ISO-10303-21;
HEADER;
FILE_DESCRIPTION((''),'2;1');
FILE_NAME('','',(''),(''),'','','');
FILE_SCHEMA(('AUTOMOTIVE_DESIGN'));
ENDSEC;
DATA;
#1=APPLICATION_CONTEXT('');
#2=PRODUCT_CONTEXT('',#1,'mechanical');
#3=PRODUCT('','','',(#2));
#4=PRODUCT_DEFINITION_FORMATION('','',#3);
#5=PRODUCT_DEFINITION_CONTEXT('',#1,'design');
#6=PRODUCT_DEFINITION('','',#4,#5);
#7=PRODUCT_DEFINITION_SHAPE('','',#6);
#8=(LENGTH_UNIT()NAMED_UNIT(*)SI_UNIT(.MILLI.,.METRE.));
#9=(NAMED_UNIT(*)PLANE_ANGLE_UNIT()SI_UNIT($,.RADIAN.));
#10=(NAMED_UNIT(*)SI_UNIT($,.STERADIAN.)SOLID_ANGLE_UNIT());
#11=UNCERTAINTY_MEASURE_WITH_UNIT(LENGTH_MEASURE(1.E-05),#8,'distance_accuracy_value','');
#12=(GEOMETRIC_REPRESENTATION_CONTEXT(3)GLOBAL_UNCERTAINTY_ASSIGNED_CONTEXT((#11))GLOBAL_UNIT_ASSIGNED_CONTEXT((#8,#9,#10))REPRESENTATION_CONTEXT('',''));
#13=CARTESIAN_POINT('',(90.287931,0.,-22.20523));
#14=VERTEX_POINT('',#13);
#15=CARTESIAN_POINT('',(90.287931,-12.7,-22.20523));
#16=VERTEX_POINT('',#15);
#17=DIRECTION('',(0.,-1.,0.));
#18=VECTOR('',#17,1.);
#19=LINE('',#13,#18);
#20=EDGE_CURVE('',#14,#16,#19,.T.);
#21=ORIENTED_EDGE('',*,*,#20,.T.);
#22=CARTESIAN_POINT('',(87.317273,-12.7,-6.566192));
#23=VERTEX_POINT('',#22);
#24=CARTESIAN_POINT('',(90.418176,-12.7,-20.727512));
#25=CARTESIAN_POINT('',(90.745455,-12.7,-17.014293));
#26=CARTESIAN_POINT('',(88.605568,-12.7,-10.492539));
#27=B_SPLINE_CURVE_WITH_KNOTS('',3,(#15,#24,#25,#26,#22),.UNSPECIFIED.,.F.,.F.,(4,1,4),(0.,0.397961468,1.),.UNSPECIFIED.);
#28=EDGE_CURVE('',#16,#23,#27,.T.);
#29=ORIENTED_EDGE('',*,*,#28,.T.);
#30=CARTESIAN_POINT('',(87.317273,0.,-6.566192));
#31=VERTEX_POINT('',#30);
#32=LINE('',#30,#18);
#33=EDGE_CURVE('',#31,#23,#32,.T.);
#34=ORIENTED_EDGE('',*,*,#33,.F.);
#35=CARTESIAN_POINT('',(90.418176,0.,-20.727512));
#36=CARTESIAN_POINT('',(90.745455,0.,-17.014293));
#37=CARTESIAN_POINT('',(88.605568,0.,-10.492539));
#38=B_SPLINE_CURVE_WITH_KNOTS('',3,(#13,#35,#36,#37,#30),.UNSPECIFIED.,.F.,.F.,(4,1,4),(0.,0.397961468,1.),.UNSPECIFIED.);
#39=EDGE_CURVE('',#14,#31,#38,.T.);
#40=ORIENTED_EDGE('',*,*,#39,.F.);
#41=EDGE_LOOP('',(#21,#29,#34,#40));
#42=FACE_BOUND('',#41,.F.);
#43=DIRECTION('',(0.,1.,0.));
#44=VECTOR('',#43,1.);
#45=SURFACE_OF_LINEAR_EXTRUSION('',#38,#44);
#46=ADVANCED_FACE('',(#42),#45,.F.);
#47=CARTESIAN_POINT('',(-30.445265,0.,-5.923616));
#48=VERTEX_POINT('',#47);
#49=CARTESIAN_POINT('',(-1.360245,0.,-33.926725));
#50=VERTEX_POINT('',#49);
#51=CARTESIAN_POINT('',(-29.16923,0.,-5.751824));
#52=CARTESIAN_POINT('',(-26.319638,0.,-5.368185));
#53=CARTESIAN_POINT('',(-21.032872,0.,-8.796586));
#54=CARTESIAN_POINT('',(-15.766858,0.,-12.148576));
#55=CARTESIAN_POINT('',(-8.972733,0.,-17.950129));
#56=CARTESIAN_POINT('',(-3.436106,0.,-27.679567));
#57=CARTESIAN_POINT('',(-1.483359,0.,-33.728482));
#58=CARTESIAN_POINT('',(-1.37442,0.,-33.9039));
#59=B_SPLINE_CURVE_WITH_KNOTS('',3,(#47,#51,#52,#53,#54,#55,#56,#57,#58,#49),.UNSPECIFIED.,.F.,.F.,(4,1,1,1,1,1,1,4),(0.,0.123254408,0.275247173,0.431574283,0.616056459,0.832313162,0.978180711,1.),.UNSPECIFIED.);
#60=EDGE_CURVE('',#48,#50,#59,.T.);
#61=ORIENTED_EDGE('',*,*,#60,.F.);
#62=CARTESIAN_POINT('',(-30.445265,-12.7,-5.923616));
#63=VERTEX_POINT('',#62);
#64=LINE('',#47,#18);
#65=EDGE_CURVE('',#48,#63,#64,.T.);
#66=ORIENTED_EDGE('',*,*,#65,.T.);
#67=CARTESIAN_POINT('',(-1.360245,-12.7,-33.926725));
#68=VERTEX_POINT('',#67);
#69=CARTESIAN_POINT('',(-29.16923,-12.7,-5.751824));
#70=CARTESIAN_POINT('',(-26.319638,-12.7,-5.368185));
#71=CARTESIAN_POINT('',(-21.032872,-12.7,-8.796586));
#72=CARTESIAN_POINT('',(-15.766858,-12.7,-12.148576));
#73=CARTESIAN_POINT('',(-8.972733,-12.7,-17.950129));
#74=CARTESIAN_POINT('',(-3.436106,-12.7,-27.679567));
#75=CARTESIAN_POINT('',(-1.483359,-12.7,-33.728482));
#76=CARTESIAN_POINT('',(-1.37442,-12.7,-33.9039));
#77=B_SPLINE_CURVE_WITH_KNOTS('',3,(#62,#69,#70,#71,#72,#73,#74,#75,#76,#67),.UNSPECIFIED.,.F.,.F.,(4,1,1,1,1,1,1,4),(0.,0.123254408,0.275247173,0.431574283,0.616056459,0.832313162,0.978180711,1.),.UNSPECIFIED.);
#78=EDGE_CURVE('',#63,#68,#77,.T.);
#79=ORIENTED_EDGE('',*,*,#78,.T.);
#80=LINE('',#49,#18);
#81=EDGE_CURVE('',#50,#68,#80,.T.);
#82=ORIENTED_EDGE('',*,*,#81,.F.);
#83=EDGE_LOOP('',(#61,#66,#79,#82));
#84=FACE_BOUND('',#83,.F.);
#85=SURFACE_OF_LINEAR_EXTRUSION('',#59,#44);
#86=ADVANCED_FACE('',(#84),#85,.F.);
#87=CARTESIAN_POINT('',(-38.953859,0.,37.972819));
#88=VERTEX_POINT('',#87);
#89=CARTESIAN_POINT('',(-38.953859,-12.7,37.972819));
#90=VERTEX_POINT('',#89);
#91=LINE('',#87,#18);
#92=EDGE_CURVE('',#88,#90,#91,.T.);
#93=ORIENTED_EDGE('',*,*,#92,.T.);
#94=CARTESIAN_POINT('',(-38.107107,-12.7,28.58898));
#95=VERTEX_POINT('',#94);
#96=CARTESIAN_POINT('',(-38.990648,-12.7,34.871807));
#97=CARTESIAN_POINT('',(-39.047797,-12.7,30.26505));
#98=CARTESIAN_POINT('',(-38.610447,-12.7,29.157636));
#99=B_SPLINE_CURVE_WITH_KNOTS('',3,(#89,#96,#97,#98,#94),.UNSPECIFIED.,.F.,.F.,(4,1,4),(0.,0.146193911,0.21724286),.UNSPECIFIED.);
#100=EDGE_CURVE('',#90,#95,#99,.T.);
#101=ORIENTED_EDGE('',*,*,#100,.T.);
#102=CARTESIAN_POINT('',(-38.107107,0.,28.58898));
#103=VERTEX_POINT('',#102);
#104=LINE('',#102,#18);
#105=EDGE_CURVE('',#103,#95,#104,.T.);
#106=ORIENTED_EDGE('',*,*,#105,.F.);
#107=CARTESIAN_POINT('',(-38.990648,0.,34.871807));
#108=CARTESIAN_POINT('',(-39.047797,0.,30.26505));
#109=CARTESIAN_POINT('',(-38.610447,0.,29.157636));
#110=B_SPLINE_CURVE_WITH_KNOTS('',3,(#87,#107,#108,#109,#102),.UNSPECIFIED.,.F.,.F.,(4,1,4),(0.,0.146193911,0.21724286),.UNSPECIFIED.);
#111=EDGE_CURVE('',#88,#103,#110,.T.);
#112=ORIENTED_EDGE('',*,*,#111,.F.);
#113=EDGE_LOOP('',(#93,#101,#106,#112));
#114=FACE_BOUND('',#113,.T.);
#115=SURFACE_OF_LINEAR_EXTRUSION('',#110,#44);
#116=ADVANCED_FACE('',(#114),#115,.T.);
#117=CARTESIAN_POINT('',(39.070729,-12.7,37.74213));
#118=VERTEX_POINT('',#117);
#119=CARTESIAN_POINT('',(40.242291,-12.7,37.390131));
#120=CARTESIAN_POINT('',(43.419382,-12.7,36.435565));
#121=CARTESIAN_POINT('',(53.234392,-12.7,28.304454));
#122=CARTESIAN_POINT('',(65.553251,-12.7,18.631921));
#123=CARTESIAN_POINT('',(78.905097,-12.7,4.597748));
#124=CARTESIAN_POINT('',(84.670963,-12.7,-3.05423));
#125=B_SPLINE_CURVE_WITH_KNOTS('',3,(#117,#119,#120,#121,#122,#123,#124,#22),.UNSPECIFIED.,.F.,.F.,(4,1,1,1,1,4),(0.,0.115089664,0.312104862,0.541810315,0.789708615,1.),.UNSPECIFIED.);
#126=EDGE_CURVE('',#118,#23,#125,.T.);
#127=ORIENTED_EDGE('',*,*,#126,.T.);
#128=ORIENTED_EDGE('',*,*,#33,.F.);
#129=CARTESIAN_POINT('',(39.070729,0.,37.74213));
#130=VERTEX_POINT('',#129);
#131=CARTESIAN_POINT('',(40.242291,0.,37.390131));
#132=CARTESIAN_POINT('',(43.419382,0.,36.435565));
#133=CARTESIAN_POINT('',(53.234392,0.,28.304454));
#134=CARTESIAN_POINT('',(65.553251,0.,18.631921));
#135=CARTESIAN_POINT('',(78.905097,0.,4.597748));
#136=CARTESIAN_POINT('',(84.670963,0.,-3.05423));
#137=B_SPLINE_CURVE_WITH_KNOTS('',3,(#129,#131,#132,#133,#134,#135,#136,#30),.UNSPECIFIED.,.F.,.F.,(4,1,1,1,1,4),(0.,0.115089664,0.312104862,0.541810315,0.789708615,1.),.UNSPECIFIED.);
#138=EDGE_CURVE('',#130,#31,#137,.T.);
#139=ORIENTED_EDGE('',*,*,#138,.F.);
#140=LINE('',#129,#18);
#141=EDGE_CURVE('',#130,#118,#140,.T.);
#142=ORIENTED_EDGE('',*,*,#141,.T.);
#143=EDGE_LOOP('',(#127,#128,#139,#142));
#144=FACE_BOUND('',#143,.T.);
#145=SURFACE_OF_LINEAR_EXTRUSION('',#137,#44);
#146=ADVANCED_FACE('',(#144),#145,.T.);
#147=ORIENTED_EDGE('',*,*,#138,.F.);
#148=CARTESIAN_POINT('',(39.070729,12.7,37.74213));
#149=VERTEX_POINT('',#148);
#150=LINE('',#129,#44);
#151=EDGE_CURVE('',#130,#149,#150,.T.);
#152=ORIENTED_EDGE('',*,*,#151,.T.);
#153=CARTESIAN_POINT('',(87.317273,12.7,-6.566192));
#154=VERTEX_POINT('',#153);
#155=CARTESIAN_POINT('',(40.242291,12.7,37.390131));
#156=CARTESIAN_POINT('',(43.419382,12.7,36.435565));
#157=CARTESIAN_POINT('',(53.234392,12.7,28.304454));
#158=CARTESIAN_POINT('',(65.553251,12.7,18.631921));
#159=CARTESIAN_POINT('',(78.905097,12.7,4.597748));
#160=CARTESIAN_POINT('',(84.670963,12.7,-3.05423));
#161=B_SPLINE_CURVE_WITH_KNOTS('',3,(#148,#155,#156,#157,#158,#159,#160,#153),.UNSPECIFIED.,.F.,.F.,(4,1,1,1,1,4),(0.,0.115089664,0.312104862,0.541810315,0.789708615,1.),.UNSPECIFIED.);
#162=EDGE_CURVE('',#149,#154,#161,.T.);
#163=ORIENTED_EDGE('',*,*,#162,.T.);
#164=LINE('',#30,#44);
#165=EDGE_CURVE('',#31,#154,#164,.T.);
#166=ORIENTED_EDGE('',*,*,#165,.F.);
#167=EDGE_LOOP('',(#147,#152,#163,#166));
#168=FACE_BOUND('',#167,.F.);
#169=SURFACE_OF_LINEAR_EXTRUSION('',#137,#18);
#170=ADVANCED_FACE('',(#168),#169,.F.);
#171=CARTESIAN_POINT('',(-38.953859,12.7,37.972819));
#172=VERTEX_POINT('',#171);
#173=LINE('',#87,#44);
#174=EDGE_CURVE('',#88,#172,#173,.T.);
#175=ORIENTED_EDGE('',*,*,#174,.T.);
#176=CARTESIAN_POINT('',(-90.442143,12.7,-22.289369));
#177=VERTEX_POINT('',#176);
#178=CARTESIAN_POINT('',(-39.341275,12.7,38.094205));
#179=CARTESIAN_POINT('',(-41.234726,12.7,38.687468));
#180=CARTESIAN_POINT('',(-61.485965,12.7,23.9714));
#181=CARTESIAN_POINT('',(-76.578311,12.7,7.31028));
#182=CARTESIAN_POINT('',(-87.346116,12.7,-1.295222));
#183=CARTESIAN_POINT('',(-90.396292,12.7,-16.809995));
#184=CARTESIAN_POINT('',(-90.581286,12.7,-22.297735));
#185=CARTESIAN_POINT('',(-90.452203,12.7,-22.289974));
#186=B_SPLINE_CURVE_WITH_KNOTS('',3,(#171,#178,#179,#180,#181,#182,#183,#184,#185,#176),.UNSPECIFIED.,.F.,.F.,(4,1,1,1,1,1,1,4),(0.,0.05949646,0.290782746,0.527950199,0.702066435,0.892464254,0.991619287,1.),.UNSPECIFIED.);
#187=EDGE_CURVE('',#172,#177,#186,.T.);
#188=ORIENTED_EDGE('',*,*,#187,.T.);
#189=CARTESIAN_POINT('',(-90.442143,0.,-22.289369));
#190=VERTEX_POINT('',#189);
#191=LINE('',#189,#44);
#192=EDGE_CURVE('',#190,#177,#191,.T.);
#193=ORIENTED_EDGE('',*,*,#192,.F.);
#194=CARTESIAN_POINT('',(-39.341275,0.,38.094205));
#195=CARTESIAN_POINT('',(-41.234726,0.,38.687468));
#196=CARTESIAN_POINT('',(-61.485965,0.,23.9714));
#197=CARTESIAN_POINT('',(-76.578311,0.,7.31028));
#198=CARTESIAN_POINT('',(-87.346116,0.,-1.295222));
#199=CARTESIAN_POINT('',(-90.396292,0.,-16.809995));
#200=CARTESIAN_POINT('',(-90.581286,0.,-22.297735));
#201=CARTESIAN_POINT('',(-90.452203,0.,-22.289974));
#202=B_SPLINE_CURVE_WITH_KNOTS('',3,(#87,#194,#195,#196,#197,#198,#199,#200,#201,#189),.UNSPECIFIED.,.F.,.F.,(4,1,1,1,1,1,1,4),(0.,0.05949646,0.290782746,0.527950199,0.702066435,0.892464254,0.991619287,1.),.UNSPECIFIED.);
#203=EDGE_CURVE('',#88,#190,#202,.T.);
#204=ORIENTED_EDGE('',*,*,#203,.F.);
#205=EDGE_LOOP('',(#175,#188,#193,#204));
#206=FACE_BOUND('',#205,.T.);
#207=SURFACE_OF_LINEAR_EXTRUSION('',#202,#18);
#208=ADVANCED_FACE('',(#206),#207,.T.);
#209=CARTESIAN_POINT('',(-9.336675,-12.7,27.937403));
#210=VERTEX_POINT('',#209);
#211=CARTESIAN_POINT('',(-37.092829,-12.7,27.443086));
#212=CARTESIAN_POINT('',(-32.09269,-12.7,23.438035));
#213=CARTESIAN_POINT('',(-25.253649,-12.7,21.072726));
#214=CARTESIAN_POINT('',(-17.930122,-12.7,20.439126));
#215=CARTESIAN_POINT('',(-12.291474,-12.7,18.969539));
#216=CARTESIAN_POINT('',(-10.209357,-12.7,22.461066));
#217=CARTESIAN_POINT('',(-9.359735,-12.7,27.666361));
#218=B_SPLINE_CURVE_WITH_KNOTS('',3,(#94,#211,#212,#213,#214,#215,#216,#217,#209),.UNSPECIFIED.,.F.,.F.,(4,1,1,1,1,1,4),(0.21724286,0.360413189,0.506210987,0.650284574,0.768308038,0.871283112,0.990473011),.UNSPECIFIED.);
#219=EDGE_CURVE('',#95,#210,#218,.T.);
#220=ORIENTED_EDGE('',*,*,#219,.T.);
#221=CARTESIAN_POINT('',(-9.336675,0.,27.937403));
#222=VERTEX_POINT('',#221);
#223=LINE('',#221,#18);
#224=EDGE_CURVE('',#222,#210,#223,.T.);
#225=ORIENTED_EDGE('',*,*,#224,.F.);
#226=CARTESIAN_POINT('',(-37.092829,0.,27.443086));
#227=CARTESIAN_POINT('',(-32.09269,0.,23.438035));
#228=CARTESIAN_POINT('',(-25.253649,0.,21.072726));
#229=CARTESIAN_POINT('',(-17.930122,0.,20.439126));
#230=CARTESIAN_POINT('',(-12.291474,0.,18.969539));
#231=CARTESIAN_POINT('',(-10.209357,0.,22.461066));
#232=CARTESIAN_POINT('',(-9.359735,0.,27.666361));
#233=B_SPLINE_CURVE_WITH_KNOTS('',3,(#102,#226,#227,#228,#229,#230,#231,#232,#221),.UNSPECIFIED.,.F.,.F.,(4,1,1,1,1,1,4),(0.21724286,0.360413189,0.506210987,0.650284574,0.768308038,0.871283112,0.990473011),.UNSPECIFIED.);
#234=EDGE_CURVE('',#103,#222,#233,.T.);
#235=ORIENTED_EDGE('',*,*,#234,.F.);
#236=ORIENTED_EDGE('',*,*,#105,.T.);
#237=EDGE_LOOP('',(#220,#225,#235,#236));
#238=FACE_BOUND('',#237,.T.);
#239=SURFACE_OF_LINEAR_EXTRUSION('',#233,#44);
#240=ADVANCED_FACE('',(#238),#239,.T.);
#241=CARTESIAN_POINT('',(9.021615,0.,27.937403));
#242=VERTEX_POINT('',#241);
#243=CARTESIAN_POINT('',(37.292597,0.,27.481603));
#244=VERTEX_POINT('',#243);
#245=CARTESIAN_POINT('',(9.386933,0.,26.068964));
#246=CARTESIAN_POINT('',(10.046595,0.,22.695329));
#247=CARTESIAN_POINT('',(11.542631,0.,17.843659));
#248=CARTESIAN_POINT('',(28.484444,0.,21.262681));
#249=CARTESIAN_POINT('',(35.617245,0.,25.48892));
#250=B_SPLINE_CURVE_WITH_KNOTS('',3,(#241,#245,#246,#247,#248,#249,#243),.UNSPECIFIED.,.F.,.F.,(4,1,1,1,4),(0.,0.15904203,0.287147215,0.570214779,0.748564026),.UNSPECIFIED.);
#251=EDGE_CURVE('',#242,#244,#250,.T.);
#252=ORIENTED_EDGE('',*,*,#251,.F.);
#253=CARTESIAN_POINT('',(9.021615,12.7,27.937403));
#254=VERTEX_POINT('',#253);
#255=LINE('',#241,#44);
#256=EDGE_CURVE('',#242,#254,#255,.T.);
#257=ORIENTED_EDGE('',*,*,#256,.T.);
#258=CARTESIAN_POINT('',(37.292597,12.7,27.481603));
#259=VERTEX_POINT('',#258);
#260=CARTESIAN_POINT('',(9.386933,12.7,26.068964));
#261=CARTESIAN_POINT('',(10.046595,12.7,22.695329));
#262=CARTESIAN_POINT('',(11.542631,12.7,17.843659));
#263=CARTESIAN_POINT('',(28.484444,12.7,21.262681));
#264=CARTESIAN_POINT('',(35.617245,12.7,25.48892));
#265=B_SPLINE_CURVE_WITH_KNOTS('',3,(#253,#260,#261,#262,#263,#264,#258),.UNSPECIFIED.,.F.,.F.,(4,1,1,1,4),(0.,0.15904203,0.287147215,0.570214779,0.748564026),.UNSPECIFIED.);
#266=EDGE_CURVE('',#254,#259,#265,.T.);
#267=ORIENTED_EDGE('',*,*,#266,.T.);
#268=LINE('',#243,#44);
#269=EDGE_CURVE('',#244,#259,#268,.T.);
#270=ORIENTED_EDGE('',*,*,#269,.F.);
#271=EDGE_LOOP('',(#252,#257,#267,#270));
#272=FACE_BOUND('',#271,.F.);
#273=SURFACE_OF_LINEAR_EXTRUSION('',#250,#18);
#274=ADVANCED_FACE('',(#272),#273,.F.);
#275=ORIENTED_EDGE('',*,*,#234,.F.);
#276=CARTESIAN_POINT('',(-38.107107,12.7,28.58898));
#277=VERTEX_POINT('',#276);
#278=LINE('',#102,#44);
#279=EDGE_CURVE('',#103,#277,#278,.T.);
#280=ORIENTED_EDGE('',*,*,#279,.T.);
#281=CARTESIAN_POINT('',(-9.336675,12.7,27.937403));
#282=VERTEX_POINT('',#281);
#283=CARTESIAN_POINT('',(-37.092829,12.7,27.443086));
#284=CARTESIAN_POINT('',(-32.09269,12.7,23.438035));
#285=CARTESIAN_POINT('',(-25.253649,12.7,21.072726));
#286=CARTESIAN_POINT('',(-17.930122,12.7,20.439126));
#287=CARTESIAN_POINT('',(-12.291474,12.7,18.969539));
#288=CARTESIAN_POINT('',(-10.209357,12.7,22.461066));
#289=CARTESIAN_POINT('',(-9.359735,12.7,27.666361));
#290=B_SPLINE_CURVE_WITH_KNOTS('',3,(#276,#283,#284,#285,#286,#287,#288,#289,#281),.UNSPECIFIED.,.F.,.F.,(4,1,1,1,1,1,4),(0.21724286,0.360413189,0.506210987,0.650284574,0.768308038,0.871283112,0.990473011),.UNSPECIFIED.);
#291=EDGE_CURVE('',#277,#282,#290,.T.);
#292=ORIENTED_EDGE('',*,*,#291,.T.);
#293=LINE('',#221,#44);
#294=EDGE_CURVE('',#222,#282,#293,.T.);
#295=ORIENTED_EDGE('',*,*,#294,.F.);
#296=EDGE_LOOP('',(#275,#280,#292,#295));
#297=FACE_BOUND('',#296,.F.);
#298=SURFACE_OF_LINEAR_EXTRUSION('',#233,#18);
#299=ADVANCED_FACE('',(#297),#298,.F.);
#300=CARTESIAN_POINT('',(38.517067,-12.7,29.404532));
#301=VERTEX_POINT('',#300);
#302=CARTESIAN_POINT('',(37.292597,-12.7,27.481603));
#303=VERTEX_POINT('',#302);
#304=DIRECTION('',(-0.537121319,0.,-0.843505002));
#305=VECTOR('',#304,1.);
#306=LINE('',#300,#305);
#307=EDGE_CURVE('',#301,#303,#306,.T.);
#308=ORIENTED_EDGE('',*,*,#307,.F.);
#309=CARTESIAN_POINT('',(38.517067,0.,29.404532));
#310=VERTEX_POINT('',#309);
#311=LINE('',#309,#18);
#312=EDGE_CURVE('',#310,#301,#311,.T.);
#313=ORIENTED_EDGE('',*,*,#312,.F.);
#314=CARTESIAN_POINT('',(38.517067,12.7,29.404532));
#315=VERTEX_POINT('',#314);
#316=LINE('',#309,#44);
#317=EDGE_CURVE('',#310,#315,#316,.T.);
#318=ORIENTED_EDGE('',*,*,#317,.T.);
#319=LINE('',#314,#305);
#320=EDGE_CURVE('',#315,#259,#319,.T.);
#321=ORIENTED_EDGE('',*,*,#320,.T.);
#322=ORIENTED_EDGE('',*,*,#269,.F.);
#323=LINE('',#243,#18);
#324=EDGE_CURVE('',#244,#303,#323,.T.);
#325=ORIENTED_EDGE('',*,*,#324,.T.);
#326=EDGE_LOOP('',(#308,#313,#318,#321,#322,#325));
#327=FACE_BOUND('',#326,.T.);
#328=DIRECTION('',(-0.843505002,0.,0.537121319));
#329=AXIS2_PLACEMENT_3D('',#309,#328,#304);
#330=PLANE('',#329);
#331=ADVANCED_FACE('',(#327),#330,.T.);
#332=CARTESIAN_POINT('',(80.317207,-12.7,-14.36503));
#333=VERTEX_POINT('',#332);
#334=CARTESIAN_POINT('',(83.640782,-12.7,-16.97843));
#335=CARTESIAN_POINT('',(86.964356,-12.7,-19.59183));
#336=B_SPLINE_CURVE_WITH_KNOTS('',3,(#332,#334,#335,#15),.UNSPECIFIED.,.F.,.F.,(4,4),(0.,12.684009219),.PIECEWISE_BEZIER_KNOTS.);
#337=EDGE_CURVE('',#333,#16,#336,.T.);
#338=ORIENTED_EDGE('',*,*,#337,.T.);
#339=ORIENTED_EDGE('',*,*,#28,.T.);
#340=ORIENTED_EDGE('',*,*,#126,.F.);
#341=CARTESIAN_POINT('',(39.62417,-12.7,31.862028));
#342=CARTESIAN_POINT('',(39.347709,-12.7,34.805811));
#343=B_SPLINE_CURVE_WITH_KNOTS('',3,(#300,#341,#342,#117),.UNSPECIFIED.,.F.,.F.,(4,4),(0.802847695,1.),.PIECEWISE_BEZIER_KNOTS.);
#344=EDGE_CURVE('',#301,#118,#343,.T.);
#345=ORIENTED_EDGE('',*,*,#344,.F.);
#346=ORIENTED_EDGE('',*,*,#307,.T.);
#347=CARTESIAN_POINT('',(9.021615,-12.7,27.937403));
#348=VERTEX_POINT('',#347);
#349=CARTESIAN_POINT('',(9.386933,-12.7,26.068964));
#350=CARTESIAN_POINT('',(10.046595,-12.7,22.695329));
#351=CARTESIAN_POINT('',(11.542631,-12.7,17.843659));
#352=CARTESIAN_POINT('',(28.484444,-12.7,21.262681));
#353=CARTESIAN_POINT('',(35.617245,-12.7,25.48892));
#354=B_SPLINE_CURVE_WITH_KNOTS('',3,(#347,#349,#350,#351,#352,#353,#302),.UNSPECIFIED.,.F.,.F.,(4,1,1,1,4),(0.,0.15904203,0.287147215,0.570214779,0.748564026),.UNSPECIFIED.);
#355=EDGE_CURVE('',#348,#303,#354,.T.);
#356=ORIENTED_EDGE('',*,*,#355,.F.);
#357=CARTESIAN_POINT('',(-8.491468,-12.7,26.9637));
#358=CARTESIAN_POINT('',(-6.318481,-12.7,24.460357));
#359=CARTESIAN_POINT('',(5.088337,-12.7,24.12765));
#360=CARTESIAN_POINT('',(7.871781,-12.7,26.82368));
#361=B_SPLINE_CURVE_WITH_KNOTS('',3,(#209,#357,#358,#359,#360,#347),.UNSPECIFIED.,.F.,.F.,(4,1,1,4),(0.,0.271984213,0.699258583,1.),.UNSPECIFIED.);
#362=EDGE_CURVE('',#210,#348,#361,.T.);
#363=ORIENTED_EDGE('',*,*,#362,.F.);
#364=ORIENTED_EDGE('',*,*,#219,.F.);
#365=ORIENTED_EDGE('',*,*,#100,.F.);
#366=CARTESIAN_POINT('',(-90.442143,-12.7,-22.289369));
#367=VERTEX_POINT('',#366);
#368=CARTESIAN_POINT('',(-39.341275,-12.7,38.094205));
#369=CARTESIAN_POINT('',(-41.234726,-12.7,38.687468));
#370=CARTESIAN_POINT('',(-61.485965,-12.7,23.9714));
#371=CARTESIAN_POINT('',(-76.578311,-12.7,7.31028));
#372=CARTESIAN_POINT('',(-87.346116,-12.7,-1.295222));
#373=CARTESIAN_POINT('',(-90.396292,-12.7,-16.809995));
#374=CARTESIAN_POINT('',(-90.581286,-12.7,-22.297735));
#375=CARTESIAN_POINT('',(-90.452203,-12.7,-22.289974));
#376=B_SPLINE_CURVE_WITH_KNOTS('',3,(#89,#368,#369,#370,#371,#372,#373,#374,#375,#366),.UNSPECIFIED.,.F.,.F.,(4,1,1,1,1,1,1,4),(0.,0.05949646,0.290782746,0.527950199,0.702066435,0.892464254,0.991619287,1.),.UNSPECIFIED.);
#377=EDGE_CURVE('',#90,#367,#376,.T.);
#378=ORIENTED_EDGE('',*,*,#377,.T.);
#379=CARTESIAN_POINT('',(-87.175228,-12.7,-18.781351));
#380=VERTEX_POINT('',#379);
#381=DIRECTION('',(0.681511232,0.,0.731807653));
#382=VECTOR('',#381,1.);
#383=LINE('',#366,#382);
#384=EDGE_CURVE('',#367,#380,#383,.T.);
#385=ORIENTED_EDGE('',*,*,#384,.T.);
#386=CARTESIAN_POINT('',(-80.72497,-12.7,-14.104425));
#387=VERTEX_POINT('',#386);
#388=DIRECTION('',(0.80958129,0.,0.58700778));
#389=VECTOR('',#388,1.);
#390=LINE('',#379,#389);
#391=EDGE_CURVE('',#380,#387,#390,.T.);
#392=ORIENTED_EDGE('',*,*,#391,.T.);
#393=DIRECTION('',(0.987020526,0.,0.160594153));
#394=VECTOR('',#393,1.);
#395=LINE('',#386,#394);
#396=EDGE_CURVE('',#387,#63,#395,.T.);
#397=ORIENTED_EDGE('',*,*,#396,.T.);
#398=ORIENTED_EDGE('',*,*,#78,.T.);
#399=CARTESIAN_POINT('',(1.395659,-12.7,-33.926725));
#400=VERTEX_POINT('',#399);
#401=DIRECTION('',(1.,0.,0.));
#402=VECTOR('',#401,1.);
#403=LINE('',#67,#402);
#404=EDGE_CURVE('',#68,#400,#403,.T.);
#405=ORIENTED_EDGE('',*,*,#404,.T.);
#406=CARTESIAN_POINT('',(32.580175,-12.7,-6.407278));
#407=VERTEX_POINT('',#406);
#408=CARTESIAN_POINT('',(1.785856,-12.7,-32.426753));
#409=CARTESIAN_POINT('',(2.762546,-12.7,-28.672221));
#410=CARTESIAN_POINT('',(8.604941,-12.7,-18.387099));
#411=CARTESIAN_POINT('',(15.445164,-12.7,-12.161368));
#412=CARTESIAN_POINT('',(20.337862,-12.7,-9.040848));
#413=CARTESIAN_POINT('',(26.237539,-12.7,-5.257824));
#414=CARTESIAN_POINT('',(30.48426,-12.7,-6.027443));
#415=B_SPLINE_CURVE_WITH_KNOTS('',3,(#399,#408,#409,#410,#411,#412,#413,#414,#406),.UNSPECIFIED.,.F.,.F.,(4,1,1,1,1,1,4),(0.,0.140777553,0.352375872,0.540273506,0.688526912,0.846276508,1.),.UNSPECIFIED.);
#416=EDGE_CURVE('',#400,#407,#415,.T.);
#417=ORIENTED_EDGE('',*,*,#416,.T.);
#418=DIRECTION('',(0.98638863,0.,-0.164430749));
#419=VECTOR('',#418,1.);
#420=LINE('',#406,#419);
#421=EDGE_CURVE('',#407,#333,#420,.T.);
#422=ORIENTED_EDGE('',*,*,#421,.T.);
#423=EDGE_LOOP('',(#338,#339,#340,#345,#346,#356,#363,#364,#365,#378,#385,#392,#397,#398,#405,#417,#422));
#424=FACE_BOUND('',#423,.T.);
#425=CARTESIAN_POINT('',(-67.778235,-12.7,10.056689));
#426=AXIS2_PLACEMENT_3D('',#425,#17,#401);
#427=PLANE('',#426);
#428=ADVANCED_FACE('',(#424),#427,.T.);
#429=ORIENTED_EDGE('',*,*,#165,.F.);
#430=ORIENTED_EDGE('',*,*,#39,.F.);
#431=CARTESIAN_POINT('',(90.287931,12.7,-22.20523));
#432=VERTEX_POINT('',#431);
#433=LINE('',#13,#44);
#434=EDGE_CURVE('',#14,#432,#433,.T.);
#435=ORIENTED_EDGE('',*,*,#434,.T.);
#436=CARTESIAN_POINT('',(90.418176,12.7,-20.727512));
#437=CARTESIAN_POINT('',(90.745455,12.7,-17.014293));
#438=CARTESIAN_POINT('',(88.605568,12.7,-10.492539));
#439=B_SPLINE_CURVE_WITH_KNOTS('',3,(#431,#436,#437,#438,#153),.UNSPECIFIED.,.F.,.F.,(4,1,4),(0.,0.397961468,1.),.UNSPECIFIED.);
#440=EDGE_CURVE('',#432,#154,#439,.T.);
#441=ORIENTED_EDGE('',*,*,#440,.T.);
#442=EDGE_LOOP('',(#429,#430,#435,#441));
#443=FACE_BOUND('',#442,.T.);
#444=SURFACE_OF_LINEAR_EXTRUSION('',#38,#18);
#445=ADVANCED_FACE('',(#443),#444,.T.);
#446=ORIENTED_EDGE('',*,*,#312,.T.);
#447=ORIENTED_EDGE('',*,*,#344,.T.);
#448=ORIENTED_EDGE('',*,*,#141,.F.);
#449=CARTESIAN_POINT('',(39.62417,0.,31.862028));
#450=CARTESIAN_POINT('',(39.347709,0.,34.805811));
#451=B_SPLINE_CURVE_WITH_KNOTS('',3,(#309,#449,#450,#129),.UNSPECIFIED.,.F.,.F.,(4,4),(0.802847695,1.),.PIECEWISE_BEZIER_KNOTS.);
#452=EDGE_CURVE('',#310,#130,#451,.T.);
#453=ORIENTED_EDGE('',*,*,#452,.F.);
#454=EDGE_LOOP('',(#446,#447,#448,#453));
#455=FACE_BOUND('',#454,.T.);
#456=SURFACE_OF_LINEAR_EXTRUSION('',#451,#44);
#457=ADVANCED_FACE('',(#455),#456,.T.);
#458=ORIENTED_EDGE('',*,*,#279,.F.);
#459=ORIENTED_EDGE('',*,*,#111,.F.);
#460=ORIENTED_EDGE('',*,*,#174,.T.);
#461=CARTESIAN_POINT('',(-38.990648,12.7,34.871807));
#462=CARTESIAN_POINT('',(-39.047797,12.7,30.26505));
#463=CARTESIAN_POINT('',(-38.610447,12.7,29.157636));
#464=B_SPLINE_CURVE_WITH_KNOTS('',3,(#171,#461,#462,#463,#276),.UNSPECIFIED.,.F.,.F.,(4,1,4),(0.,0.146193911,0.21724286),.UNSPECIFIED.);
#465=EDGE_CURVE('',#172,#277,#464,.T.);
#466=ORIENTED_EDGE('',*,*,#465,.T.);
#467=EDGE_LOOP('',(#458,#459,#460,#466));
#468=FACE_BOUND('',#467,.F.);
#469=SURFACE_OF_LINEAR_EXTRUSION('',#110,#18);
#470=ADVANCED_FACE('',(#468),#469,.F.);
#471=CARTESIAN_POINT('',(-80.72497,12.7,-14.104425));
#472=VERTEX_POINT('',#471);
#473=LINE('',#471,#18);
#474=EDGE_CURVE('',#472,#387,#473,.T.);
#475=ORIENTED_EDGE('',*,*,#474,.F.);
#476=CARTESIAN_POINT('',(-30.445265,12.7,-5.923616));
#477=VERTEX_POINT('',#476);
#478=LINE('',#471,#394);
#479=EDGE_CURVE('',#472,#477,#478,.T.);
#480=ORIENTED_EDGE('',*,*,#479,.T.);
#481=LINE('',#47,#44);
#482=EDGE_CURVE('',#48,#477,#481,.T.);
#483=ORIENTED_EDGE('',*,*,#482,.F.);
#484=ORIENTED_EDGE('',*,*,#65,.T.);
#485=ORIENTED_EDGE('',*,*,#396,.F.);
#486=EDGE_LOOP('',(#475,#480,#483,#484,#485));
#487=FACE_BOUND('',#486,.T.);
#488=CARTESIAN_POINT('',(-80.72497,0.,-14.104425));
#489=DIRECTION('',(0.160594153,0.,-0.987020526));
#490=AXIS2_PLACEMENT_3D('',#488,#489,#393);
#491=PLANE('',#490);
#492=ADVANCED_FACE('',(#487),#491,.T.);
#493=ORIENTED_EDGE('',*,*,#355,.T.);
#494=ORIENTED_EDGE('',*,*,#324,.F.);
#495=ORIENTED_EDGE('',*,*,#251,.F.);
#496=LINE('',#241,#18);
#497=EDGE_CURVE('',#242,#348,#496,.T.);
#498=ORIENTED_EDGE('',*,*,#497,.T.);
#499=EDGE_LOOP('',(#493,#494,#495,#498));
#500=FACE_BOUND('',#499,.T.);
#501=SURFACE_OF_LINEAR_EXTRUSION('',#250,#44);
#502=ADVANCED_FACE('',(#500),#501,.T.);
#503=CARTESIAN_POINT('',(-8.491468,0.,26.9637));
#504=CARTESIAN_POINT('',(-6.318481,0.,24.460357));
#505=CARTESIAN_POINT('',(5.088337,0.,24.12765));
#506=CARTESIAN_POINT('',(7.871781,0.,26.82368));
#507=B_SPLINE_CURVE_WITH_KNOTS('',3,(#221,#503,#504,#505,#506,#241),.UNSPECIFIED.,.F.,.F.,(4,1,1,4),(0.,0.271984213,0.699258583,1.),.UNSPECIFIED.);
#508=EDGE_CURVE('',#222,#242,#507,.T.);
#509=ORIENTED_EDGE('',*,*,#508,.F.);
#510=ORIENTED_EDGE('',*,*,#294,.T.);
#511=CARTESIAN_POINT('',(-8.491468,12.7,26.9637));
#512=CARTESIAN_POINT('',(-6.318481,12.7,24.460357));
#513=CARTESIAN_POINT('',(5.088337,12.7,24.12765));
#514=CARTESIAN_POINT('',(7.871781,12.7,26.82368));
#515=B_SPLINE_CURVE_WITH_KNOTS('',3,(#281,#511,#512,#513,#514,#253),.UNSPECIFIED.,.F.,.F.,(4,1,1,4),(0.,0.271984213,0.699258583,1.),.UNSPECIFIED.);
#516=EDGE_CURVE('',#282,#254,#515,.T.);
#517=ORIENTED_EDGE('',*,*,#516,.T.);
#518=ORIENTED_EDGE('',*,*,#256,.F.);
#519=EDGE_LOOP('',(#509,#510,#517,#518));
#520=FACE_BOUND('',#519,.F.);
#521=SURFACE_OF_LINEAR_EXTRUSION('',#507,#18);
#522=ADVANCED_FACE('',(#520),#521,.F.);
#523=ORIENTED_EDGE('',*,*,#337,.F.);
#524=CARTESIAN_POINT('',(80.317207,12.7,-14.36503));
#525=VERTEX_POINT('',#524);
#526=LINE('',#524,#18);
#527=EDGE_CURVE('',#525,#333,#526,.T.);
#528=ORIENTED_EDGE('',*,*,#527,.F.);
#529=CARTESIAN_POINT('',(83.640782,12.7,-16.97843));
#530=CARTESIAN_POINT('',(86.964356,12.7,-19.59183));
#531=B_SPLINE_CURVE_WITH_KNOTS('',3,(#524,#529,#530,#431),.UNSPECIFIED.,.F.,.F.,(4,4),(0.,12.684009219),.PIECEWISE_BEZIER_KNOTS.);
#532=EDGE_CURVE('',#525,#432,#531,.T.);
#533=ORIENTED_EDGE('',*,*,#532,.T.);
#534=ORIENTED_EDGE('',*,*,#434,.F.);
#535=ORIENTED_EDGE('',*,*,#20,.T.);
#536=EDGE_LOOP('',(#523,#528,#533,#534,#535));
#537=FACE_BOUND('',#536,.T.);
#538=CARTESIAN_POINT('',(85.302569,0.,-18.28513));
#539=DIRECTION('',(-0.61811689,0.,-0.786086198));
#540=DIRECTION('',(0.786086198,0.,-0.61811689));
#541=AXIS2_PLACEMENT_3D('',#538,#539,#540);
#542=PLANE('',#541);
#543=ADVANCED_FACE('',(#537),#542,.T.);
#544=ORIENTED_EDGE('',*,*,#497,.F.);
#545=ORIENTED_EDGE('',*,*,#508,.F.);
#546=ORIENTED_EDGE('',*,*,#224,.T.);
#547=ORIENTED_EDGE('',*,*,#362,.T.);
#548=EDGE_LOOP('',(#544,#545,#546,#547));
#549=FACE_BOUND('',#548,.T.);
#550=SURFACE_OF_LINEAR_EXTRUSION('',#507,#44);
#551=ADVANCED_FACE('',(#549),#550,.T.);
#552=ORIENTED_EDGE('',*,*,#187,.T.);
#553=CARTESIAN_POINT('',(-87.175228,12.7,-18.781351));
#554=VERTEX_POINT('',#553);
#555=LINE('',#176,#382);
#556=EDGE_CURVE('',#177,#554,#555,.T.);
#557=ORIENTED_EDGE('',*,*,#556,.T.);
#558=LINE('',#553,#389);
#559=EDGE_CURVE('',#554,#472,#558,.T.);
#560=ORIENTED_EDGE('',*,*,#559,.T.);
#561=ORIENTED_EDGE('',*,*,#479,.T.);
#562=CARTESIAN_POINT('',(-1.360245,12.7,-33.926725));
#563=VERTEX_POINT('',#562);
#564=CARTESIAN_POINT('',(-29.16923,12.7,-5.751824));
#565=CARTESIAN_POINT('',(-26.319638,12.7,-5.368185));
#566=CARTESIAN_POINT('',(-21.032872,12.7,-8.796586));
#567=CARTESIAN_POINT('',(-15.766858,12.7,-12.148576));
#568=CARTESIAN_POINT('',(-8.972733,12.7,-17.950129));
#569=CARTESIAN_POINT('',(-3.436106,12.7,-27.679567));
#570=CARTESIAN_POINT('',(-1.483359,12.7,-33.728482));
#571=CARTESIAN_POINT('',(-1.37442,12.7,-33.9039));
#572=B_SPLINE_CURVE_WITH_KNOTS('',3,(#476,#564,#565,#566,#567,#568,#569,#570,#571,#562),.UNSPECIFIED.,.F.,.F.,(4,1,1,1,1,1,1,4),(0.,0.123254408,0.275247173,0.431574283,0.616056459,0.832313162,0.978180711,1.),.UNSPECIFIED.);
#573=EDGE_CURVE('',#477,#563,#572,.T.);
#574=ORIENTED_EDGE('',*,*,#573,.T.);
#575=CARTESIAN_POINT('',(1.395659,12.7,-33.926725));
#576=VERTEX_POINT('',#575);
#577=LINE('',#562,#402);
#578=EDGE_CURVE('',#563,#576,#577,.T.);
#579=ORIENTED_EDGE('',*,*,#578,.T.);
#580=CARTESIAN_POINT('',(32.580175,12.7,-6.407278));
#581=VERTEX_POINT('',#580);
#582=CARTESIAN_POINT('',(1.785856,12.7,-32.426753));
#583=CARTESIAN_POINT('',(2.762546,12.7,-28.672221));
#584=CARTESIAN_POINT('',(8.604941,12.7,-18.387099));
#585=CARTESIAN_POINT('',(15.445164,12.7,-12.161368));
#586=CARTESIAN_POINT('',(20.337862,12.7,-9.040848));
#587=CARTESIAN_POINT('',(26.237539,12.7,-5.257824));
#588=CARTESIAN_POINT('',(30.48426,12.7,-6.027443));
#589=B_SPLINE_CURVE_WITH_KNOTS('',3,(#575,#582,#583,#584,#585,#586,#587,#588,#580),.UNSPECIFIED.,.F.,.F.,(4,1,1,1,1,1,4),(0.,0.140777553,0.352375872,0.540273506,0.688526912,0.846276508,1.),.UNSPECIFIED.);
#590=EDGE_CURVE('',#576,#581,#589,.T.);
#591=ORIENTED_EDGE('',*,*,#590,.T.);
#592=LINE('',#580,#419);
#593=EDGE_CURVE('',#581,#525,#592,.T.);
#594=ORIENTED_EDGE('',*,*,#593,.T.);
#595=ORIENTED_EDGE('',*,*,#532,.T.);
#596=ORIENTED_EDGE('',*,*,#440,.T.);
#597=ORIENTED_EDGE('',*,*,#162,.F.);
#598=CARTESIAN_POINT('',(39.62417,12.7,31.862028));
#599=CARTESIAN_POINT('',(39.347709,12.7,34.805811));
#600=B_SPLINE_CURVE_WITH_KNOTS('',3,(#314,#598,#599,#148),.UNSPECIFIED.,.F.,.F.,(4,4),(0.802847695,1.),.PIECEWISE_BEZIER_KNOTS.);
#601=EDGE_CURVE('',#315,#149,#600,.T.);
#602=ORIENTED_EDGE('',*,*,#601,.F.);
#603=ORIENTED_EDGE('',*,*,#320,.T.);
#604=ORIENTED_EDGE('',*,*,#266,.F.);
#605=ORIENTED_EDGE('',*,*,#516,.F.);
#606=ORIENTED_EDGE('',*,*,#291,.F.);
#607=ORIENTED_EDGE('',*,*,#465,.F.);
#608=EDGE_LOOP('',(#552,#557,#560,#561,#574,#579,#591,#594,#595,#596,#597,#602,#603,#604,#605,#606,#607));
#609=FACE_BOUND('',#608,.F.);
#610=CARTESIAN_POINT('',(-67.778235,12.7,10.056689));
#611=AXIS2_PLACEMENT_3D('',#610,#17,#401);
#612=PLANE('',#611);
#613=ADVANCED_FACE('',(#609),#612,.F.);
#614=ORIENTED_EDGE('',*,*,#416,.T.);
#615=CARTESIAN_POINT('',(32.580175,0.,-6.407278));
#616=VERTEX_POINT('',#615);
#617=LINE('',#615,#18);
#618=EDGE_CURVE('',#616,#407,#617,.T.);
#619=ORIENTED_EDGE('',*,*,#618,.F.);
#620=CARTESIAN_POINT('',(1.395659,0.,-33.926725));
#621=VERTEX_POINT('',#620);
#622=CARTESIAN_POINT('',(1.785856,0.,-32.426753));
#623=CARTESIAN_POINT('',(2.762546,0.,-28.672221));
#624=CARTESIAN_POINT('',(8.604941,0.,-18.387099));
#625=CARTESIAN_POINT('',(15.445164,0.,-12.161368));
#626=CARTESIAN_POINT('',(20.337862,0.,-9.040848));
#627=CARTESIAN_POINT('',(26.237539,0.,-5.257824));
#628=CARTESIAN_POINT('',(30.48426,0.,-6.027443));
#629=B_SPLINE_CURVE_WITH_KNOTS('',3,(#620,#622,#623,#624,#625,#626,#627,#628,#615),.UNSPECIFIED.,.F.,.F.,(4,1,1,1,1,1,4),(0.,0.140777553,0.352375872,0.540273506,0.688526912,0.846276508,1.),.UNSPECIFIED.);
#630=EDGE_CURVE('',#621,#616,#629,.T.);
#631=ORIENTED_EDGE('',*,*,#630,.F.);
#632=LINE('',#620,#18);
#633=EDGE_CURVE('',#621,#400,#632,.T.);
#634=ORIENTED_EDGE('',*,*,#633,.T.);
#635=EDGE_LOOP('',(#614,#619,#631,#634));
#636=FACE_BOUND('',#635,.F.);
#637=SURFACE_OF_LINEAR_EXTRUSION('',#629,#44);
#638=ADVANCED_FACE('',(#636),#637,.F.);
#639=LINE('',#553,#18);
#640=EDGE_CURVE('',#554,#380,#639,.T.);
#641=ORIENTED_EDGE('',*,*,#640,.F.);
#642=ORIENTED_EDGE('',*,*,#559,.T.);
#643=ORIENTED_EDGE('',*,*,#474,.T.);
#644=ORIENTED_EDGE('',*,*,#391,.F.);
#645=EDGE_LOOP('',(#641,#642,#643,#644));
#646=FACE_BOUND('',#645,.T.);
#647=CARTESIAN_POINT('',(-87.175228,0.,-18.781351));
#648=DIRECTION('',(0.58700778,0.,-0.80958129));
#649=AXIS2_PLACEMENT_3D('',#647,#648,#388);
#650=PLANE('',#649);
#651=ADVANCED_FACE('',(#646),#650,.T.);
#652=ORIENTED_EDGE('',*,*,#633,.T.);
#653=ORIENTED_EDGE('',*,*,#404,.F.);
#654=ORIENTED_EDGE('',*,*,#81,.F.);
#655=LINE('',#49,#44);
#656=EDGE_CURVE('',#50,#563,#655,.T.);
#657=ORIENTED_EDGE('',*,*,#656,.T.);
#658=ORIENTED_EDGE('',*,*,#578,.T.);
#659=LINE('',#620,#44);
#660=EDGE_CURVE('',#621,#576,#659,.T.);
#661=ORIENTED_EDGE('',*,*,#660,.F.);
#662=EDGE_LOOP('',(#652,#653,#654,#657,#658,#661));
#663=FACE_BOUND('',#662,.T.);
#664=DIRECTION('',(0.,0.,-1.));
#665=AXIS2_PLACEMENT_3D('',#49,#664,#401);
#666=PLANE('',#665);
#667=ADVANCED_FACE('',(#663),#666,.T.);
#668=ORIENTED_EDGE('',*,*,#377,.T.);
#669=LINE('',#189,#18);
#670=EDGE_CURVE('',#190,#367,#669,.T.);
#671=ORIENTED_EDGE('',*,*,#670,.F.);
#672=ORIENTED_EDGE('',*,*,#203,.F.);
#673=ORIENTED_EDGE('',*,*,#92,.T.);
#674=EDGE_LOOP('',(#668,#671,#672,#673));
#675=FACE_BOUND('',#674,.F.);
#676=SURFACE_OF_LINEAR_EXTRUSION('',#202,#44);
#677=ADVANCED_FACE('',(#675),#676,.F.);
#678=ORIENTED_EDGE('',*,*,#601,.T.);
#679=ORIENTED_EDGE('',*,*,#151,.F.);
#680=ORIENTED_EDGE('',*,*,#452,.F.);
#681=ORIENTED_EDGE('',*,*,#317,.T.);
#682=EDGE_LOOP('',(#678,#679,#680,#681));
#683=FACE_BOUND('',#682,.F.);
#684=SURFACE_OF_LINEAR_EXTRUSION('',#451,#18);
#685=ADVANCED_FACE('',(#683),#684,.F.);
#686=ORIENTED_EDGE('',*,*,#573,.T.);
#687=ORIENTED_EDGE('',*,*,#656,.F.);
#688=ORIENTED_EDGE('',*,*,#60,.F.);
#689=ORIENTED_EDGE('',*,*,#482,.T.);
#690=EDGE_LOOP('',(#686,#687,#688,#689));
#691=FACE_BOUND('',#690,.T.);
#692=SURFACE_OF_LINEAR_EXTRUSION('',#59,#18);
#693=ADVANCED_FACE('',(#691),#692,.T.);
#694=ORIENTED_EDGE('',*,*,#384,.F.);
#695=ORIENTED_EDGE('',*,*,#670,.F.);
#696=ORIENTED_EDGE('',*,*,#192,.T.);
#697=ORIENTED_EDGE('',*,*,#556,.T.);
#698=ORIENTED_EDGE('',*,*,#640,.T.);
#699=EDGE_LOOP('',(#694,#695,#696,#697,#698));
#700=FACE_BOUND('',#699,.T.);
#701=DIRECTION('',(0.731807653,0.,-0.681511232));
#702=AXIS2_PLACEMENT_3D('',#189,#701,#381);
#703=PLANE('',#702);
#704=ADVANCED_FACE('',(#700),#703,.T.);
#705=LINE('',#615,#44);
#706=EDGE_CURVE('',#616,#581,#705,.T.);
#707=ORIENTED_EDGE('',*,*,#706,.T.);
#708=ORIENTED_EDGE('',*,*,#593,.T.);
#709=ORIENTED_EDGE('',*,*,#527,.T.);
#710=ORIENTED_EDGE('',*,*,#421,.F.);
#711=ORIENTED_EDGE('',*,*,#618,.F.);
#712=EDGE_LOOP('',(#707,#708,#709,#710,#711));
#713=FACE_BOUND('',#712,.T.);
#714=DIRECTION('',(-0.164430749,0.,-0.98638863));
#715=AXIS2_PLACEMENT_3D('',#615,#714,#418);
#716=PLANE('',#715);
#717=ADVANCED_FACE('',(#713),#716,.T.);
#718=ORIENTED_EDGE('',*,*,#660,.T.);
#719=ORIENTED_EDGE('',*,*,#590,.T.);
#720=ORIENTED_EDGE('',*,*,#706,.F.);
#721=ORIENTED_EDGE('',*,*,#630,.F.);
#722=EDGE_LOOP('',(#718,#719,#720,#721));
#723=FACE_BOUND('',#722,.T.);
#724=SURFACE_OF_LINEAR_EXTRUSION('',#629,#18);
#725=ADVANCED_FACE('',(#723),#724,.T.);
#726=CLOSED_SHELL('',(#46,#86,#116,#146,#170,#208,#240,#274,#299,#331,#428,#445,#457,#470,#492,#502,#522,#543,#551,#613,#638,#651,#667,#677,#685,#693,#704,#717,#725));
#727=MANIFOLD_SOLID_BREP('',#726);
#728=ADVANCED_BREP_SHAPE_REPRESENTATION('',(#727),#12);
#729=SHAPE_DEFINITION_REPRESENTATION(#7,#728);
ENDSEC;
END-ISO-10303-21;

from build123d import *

# Parameters (mm, degrees)
F1_DEPTH = 12.7


with BuildPart() as f1:
    # F0 (on Front) → F1 (new body, symmetric)
    with BuildSketch(Plane.XZ):
        with BuildLine():
            add(Edge.make_bspline(
                [(-40.2776934206, 35.1917233848), (-39.8123265322, 36.1282814625), (-39.3830929456, 37.0505502613), (-38.953859359, 37.9728190601)],
                knots=[0.947059976, 0.947059976, 0.947059976, 0.947059976, 1, 1, 1, 1], degree=3))
            add(Edge.make_bspline(
                [(-38.953859359, 37.9728190601), (-39.3412745515, 38.0942053774), (-41.2347259268, 38.6874683521), (-61.4859654168, 23.9713996922), (-76.5783108677, 7.3102798618), (-87.346115598, -1.2952222977), (-90.3962924077, -16.8099945712), (-90.5812855703, -22.2977346681), (-90.4522033047, -22.2899740713), (-90.4421433806, -22.2893692553)],
                knots=[0, 0, 0, 0, 0.0594964598, 0.2907827461, 0.5279501993, 0.7020664352, 0.8924642538, 0.9916192868, 1, 1, 1, 1], degree=3))
            add(Edge.make_bspline(
                [(-90.4421433806, -22.2893692553), (-88.6908285148, -17.8588544537), (-85.2055447054, -9.0417069459), (-76.7181761634, 0.4161535469), (-47.5610724052, 22.4047166991), (-41.7760413171, 32.1762750136), (-40.2776934206, 35.1917233848)],
                knots=[0, 0, 0, 0, 0.211333784, 0.4205744096, 0.776608284, 0.947059976, 0.947059976, 0.947059976, 0.947059976], degree=3))
        make_face()
        with BuildLine():
            add(Edge.make_bspline(
                [(-38.953859359, 37.9728190601), (-38.9906482674, 34.871807205), (-39.047796615, 30.265050121), (-38.6104471907, 29.1576358648), (-38.1071069706, 28.5889803632)],
                knots=[0, 0, 0, 0, 0.1461939107, 0.2172428604, 0.2172428604, 0.2172428604, 0.2172428604], degree=3))
            add(Edge.make_bspline(
                [(-40.2776934206, 35.1917233848), (-39.8123265322, 36.1282814625), (-39.3830929456, 37.0505502613), (-38.953859359, 37.9728190601)],
                knots=[0.947059976, 0.947059976, 0.947059976, 0.947059976, 1, 1, 1, 1], degree=3))
            Line((-40.2776934206, 35.1917233848), (-40.2776934206, 16.0000242061))
            Line((-40.2776934206, 16.0000242061), (-74.2167965037, -9.7560574657))
            add(Edge.make_bspline(
                [(-71.4039367571, -9.4499675715), (-72.401575226, -9.5544638817), (-73.3394676265, -9.6539562253), (-74.2167965037, -9.7560574657)],
                knots=[0.7280179224, 0.7280179224, 0.7280179224, 0.7280179224, 0.7498430447, 0.7498430447, 0.7498430447, 0.7498430447], degree=3))
            Line((-71.4039367571, -9.4499675715), (-38.953859359, 15.015322715))
            Line((-38.953859359, 15.015322715), (38.2800959051, 15.015322715))
            Line((38.2800959051, 15.015322715), (71.5676033576, -10.0787399708))
            add(Edge.make_bspline(
                [(71.5676033576, -10.0787399708), (72.4844343067, -10.2354033292), (73.3456593292, -10.3814426367), (74.1409160758, -10.5150095338)],
                knots=[0.6951708947, 0.6951708947, 0.6951708947, 0.6951708947, 0.7125057217, 0.7125057217, 0.7125057217, 0.7125057217], degree=3))
            Line((74.1409160758, -10.5150095338), (38.5170668009, 16.3403237497))
            Line((38.5170668009, 16.3403237497), (38.5170668009, 29.4045320294))
            add(Edge.make_bspline(
                [(37.2925973069, 27.4816030604), (37.8025197566, 28.0881106116), (38.2122383015, 28.7278882544), (38.5170668009, 29.4045320294)],
                knots=[0.7485640259, 0.7485640259, 0.7485640259, 0.7485640259, 0.8028476948, 0.8028476948, 0.8028476948, 0.8028476948], degree=3))
            Line((37.2925973069, 27.4816030604), (37.2925973069, 16.2867400064))
            Line((37.2925973069, 16.2867400064), (-38.1071069706, 16.2867400064))
            Line((-38.1071069706, 16.2867400064), (-38.1071069706, 28.5889803632))
        make_face()
        with BuildLine():
            add(Edge.make_bspline(
                [(-38.1071069706, 28.5889803632), (-37.0928289951, 27.4430859404), (-32.0926903267, 23.438035061), (-25.2536487281, 21.0727261323), (-17.9301219592, 20.4391260424), (-12.2914743991, 18.9695386114), (-10.2093567978, 22.461065905), (-9.3597347174, 27.6663609239), (-9.3366745859, 27.9374029487)],
                knots=[0.2172428604, 0.2172428604, 0.2172428604, 0.2172428604, 0.3604131894, 0.5062109872, 0.6502845738, 0.7683080381, 0.8712831124, 0.9904730108, 0.9904730108, 0.9904730108, 0.9904730108], degree=3))
            Line((-38.1071069706, 28.5889803632), (-38.1071069706, 16.2867400064))
            Line((-38.1071069706, 16.2867400064), (37.2925973069, 16.2867400064))
            Line((37.2925973069, 16.2867400064), (37.2925973069, 27.4816030604))
            add(Edge.make_bspline(
                [(9.0216146782, 27.9374029487), (9.3869328062, 26.0689635621), (10.0465950747, 22.6953291737), (11.5426314677, 17.8436585571), (28.4844436086, 21.2626808269), (35.6172447308, 25.4889196848), (37.2925973069, 27.4816030604)],
                knots=[0, 0, 0, 0, 0.1590420299, 0.2871472151, 0.5702147794, 0.7485640259, 0.7485640259, 0.7485640259, 0.7485640259], degree=3))
            add(Edge.make_bspline(
                [(-9.3366745859, 27.9374029487), (-8.4914677318, 26.9637003703), (-6.3184807725, 24.4603569643), (5.0883368435, 24.1276496634), (7.8717811269, 26.8236799081), (9.0216146782, 27.9374029487)],
                knots=[0, 0, 0, 0, 0.2719842126, 0.6992585829, 1, 1, 1, 1], degree=3))
        make_face()
        with BuildLine():
            add(Edge.make_bspline(
                [(-74.2167965037, -9.7560574657), (-77.007953907, -10.0808850651), (-81.4936272881, -10.8042088425), (-84.5976548957, -14.0843301076), (-88.2665670283, -19.2350918475), (-90.4421433806, -22.2893692553)],
                knots=[0.7498430447, 0.7498430447, 0.7498430447, 0.7498430447, 0.8192780687, 0.8928362561, 1, 1, 1, 1], degree=3))
            Line((-90.4421433806, -22.2893692553), (-87.1752277017, -18.7813509256))
            Line((-87.1752277017, -18.7813509256), (-80.7249695063, -14.1044249758))
            Line((-80.7249695063, -14.1044249758), (-30.4452646524, -5.9236157686))
            add(Edge.make_bspline(
                [(-30.4452646524, -5.9236157686), (-29.1692303422, -5.7518238898), (-26.3196378495, -5.3681846381), (-21.0328720057, -8.7965857274), (-15.7668583106, -12.1485757509), (-8.972732686, -17.9501287669), (-3.4361064275, -27.6795673383), (-1.4833588352, -33.7284822398), (-1.3744203894, -33.9039001385), (-1.3602453982, -33.9267253876)],
                knots=[0, 0, 0, 0, 0.1232544084, 0.2752471733, 0.4315742831, 0.6160564586, 0.8323131621, 0.978180711, 1, 1, 1, 1], degree=3))
            Line((-1.3602453982, -33.9267253876), (1.3956587063, -33.9267253876))
            add(Edge.make_bspline(
                [(1.3956587063, -33.9267253876), (1.7858558115, -32.4267533649), (2.762545928, -28.6722205143), (8.6049406113, -18.387099282), (15.4451643084, -12.1613677397), (20.3378619103, -9.040848419), (26.2375389287, -5.2578241175), (30.484260366, -6.0274425096), (32.5801745057, -6.4072776586)],
                knots=[0, 0, 0, 0, 0.1407775534, 0.3523758717, 0.5402735058, 0.6885269123, 0.846276508, 1, 1, 1, 1], degree=3))
            Line((32.5801745057, -6.4072776586), (80.3172066808, -14.3650295213))
            add(Edge.make_bspline(
                [(80.3172066808, -14.3650295213), (83.6407815417, -16.9784296304), (86.9643564026, -19.5918297395), (90.2879312634, -22.2052298486)],
                knots=[0, 0, 0, 0, 12.6840092193, 12.6840092193, 12.6840092193, 12.6840092193], degree=3))
            add(Edge.make_bspline(
                [(74.1409160758, -10.5150095338), (75.4196734856, -10.7297825113), (79.5339633186, -11.4074262613), (81.4699755485, -11.6180395996), (84.3767357887, -14.5587291576), (88.0002620016, -19.2459867199), (90.2879312634, -22.2052298486)],
                knots=[0.7125057217, 0.7125057217, 0.7125057217, 0.7125057217, 0.740379787, 0.8159915961, 0.8838285292, 1, 1, 1, 1], degree=3))
            add(Edge.make_bspline(
                [(71.5676033576, -10.0787399708), (72.4844343067, -10.2354033292), (73.3456593292, -10.3814426367), (74.1409160758, -10.5150095338)],
                knots=[0.6951708947, 0.6951708947, 0.6951708947, 0.6951708947, 0.7125057217, 0.7125057217, 0.7125057217, 0.7125057217], degree=3))
            add(Edge.make_bspline(
                [(0, -29.742449522), (0.4664724682, -28.1799355132), (1.6626154918, -24.1732891226), (7.942956552, -12.7424472882), (21.8866544647, -0.8724981269), (31.6192908157, -3.0086152107), (61.0077144475, -8.2743204508), (71.5676033576, -10.0787399708)],
                knots=[0, 0, 0, 0, 0.0854049798, 0.2189980712, 0.3680363622, 0.4955115709, 0.6951708947, 0.6951708947, 0.6951708947, 0.6951708947], degree=3))
            add(Edge.make_bspline(
                [(0, -29.742449522), (-0.5495383048, -28.1531309616), (-1.9522581432, -24.0963279052), (-8.9149505936, -11.9227827763), (-16.9948519195, -5.92112566), (-22.4044072958, -2.3116193689), (-29.5488093705, -2.6202252138), (-56.6963704105, -7.938550132), (-69.3544192543, -9.2352935954), (-71.4039367571, -9.4499675715)],
                knots=[0, 0, 0, 0, 0.080810849, 0.2062731207, 0.3144633744, 0.3944820381, 0.4814375424, 0.6831810686, 0.7280179224, 0.7280179224, 0.7280179224, 0.7280179224], degree=3))
            add(Edge.make_bspline(
                [(-71.4039367571, -9.4499675715), (-72.401575226, -9.5544638817), (-73.3394676265, -9.6539562253), (-74.2167965037, -9.7560574657)],
                knots=[0.7280179224, 0.7280179224, 0.7280179224, 0.7280179224, 0.7498430447, 0.7498430447, 0.7498430447, 0.7498430447], degree=3))
        make_face()
        with BuildLine():
            add(Edge.make_bspline(
                [(-90.4421433806, -22.2893692553), (-88.6908285148, -17.8588544537), (-85.2055447054, -9.0417069459), (-76.7181761634, 0.4161535469), (-47.5610724052, 22.4047166991), (-41.7760413171, 32.1762750136), (-40.2776934206, 35.1917233848)],
                knots=[0, 0, 0, 0, 0.211333784, 0.4205744096, 0.776608284, 0.947059976, 0.947059976, 0.947059976, 0.947059976], degree=3))
            add(Edge.make_bspline(
                [(-74.2167965037, -9.7560574657), (-77.007953907, -10.0808850651), (-81.4936272881, -10.8042088425), (-84.5976548957, -14.0843301076), (-88.2665670283, -19.2350918475), (-90.4421433806, -22.2893692553)],
                knots=[0.7498430447, 0.7498430447, 0.7498430447, 0.7498430447, 0.8192780687, 0.8928362561, 1, 1, 1, 1], degree=3))
            Line((-74.2167965037, -9.7560574657), (-40.2776934206, 16.0000242061))
            Line((-40.2776934206, 16.0000242061), (-40.2776934206, 35.1917233848))
        make_face()
        with BuildLine():
            Line((38.5170668009, 29.4045320294), (37.2925973069, 27.4816030604))
            add(Edge.make_bspline(
                [(37.2925973069, 27.4816030604), (37.8025197566, 28.0881106116), (38.2122383015, 28.7278882544), (38.5170668009, 29.4045320294)],
                knots=[0.7485640259, 0.7485640259, 0.7485640259, 0.7485640259, 0.8028476948, 0.8028476948, 0.8028476948, 0.8028476948], degree=3))
        make_face()
        with BuildLine():
            add(Edge.make_bspline(
                [(38.5170668009, 29.4045320294), (39.6241703276, 31.8620276732), (39.3477087322, 34.8058105942), (39.0707291663, 37.7421304584)],
                knots=[0.8028476948, 0.8028476948, 0.8028476948, 0.8028476948, 1, 1, 1, 1], degree=3))
            Line((38.5170668009, 29.4045320294), (38.5170668009, 16.3403237497))
            Line((38.5170668009, 16.3403237497), (74.1409160758, -10.5150095338))
            add(Edge.make_bspline(
                [(74.1409160758, -10.5150095338), (75.4196734856, -10.7297825113), (79.5339633186, -11.4074262613), (81.4699755485, -11.6180395996), (84.3767357887, -14.5587291576), (88.0002620016, -19.2459867199), (90.2879312634, -22.2052298486)],
                knots=[0.7125057217, 0.7125057217, 0.7125057217, 0.7125057217, 0.740379787, 0.8159915961, 0.8838285292, 1, 1, 1, 1], degree=3))
            add(Edge.make_bspline(
                [(90.2879312634, -22.2052298486), (88.741008924, -18.4507456728), (85.2276746321, -9.9236479207), (69.4925415219, 3.1514456522), (47.7606812008, 19.2577180699), (41.8160392744, 31.9025764573), (39.0707291663, 37.7421304584)],
                knots=[0, 0, 0, 0, 0.2001083105, 0.4544813734, 0.7480726647, 1, 1, 1, 1], degree=3))
        make_face()
        with BuildLine():
            add(Edge.make_bspline(
                [(39.0707291663, 37.7421304584), (40.2422913979, 37.3901312173), (43.4193818148, 36.4355652665), (53.2343922004, 28.3044540122), (65.5532512122, 18.6319212548), (78.9050965015, 4.5977479567), (84.6709628521, -3.0542299125), (87.3172730207, -6.5661924891)],
                knots=[0, 0, 0, 0, 0.1150896641, 0.3121048623, 0.541810315, 0.7897086146, 1, 1, 1, 1], degree=3))
            add(Edge.make_bspline(
                [(90.2879312634, -22.2052298486), (88.741008924, -18.4507456728), (85.2276746321, -9.9236479207), (69.4925415219, 3.1514456522), (47.7606812008, 19.2577180699), (41.8160392744, 31.9025764573), (39.0707291663, 37.7421304584)],
                knots=[0, 0, 0, 0, 0.2001083105, 0.4544813734, 0.7480726647, 1, 1, 1, 1], degree=3))
            add(Edge.make_bspline(
                [(90.2879312634, -22.2052298486), (90.4181757057, -20.7275118544), (90.7454547336, -17.0142930767), (88.6055675564, -10.4925394633), (87.3172730207, -6.5661924891)],
                knots=[0, 0, 0, 0, 0.3979614676, 1, 1, 1, 1], degree=3))
        make_face()
        with BuildLine():
            Line((-38.953859359, 15.015322715), (-71.4039367571, -9.4499675715))
            add(Edge.make_bspline(
                [(0, -29.742449522), (-0.5495383048, -28.1531309616), (-1.9522581432, -24.0963279052), (-8.9149505936, -11.9227827763), (-16.9948519195, -5.92112566), (-22.4044072958, -2.3116193689), (-29.5488093705, -2.6202252138), (-56.6963704105, -7.938550132), (-69.3544192543, -9.2352935954), (-71.4039367571, -9.4499675715)],
                knots=[0, 0, 0, 0, 0.080810849, 0.2062731207, 0.3144633744, 0.3944820381, 0.4814375424, 0.6831810686, 0.7280179224, 0.7280179224, 0.7280179224, 0.7280179224], degree=3))
            add(Edge.make_bspline(
                [(0, -29.742449522), (0.4664724682, -28.1799355132), (1.6626154918, -24.1732891226), (7.942956552, -12.7424472882), (21.8866544647, -0.8724981269), (31.6192908157, -3.0086152107), (61.0077144475, -8.2743204508), (71.5676033576, -10.0787399708)],
                knots=[0, 0, 0, 0, 0.0854049798, 0.2189980712, 0.3680363622, 0.4955115709, 0.6951708947, 0.6951708947, 0.6951708947, 0.6951708947], degree=3))
            Line((71.5676033576, -10.0787399708), (38.2800959051, 15.015322715))
            Line((38.2800959051, 15.015322715), (-38.953859359, 15.015322715))
        make_face()
    extrude(amount=F1_DEPTH, both=True)


solid = f1.part
